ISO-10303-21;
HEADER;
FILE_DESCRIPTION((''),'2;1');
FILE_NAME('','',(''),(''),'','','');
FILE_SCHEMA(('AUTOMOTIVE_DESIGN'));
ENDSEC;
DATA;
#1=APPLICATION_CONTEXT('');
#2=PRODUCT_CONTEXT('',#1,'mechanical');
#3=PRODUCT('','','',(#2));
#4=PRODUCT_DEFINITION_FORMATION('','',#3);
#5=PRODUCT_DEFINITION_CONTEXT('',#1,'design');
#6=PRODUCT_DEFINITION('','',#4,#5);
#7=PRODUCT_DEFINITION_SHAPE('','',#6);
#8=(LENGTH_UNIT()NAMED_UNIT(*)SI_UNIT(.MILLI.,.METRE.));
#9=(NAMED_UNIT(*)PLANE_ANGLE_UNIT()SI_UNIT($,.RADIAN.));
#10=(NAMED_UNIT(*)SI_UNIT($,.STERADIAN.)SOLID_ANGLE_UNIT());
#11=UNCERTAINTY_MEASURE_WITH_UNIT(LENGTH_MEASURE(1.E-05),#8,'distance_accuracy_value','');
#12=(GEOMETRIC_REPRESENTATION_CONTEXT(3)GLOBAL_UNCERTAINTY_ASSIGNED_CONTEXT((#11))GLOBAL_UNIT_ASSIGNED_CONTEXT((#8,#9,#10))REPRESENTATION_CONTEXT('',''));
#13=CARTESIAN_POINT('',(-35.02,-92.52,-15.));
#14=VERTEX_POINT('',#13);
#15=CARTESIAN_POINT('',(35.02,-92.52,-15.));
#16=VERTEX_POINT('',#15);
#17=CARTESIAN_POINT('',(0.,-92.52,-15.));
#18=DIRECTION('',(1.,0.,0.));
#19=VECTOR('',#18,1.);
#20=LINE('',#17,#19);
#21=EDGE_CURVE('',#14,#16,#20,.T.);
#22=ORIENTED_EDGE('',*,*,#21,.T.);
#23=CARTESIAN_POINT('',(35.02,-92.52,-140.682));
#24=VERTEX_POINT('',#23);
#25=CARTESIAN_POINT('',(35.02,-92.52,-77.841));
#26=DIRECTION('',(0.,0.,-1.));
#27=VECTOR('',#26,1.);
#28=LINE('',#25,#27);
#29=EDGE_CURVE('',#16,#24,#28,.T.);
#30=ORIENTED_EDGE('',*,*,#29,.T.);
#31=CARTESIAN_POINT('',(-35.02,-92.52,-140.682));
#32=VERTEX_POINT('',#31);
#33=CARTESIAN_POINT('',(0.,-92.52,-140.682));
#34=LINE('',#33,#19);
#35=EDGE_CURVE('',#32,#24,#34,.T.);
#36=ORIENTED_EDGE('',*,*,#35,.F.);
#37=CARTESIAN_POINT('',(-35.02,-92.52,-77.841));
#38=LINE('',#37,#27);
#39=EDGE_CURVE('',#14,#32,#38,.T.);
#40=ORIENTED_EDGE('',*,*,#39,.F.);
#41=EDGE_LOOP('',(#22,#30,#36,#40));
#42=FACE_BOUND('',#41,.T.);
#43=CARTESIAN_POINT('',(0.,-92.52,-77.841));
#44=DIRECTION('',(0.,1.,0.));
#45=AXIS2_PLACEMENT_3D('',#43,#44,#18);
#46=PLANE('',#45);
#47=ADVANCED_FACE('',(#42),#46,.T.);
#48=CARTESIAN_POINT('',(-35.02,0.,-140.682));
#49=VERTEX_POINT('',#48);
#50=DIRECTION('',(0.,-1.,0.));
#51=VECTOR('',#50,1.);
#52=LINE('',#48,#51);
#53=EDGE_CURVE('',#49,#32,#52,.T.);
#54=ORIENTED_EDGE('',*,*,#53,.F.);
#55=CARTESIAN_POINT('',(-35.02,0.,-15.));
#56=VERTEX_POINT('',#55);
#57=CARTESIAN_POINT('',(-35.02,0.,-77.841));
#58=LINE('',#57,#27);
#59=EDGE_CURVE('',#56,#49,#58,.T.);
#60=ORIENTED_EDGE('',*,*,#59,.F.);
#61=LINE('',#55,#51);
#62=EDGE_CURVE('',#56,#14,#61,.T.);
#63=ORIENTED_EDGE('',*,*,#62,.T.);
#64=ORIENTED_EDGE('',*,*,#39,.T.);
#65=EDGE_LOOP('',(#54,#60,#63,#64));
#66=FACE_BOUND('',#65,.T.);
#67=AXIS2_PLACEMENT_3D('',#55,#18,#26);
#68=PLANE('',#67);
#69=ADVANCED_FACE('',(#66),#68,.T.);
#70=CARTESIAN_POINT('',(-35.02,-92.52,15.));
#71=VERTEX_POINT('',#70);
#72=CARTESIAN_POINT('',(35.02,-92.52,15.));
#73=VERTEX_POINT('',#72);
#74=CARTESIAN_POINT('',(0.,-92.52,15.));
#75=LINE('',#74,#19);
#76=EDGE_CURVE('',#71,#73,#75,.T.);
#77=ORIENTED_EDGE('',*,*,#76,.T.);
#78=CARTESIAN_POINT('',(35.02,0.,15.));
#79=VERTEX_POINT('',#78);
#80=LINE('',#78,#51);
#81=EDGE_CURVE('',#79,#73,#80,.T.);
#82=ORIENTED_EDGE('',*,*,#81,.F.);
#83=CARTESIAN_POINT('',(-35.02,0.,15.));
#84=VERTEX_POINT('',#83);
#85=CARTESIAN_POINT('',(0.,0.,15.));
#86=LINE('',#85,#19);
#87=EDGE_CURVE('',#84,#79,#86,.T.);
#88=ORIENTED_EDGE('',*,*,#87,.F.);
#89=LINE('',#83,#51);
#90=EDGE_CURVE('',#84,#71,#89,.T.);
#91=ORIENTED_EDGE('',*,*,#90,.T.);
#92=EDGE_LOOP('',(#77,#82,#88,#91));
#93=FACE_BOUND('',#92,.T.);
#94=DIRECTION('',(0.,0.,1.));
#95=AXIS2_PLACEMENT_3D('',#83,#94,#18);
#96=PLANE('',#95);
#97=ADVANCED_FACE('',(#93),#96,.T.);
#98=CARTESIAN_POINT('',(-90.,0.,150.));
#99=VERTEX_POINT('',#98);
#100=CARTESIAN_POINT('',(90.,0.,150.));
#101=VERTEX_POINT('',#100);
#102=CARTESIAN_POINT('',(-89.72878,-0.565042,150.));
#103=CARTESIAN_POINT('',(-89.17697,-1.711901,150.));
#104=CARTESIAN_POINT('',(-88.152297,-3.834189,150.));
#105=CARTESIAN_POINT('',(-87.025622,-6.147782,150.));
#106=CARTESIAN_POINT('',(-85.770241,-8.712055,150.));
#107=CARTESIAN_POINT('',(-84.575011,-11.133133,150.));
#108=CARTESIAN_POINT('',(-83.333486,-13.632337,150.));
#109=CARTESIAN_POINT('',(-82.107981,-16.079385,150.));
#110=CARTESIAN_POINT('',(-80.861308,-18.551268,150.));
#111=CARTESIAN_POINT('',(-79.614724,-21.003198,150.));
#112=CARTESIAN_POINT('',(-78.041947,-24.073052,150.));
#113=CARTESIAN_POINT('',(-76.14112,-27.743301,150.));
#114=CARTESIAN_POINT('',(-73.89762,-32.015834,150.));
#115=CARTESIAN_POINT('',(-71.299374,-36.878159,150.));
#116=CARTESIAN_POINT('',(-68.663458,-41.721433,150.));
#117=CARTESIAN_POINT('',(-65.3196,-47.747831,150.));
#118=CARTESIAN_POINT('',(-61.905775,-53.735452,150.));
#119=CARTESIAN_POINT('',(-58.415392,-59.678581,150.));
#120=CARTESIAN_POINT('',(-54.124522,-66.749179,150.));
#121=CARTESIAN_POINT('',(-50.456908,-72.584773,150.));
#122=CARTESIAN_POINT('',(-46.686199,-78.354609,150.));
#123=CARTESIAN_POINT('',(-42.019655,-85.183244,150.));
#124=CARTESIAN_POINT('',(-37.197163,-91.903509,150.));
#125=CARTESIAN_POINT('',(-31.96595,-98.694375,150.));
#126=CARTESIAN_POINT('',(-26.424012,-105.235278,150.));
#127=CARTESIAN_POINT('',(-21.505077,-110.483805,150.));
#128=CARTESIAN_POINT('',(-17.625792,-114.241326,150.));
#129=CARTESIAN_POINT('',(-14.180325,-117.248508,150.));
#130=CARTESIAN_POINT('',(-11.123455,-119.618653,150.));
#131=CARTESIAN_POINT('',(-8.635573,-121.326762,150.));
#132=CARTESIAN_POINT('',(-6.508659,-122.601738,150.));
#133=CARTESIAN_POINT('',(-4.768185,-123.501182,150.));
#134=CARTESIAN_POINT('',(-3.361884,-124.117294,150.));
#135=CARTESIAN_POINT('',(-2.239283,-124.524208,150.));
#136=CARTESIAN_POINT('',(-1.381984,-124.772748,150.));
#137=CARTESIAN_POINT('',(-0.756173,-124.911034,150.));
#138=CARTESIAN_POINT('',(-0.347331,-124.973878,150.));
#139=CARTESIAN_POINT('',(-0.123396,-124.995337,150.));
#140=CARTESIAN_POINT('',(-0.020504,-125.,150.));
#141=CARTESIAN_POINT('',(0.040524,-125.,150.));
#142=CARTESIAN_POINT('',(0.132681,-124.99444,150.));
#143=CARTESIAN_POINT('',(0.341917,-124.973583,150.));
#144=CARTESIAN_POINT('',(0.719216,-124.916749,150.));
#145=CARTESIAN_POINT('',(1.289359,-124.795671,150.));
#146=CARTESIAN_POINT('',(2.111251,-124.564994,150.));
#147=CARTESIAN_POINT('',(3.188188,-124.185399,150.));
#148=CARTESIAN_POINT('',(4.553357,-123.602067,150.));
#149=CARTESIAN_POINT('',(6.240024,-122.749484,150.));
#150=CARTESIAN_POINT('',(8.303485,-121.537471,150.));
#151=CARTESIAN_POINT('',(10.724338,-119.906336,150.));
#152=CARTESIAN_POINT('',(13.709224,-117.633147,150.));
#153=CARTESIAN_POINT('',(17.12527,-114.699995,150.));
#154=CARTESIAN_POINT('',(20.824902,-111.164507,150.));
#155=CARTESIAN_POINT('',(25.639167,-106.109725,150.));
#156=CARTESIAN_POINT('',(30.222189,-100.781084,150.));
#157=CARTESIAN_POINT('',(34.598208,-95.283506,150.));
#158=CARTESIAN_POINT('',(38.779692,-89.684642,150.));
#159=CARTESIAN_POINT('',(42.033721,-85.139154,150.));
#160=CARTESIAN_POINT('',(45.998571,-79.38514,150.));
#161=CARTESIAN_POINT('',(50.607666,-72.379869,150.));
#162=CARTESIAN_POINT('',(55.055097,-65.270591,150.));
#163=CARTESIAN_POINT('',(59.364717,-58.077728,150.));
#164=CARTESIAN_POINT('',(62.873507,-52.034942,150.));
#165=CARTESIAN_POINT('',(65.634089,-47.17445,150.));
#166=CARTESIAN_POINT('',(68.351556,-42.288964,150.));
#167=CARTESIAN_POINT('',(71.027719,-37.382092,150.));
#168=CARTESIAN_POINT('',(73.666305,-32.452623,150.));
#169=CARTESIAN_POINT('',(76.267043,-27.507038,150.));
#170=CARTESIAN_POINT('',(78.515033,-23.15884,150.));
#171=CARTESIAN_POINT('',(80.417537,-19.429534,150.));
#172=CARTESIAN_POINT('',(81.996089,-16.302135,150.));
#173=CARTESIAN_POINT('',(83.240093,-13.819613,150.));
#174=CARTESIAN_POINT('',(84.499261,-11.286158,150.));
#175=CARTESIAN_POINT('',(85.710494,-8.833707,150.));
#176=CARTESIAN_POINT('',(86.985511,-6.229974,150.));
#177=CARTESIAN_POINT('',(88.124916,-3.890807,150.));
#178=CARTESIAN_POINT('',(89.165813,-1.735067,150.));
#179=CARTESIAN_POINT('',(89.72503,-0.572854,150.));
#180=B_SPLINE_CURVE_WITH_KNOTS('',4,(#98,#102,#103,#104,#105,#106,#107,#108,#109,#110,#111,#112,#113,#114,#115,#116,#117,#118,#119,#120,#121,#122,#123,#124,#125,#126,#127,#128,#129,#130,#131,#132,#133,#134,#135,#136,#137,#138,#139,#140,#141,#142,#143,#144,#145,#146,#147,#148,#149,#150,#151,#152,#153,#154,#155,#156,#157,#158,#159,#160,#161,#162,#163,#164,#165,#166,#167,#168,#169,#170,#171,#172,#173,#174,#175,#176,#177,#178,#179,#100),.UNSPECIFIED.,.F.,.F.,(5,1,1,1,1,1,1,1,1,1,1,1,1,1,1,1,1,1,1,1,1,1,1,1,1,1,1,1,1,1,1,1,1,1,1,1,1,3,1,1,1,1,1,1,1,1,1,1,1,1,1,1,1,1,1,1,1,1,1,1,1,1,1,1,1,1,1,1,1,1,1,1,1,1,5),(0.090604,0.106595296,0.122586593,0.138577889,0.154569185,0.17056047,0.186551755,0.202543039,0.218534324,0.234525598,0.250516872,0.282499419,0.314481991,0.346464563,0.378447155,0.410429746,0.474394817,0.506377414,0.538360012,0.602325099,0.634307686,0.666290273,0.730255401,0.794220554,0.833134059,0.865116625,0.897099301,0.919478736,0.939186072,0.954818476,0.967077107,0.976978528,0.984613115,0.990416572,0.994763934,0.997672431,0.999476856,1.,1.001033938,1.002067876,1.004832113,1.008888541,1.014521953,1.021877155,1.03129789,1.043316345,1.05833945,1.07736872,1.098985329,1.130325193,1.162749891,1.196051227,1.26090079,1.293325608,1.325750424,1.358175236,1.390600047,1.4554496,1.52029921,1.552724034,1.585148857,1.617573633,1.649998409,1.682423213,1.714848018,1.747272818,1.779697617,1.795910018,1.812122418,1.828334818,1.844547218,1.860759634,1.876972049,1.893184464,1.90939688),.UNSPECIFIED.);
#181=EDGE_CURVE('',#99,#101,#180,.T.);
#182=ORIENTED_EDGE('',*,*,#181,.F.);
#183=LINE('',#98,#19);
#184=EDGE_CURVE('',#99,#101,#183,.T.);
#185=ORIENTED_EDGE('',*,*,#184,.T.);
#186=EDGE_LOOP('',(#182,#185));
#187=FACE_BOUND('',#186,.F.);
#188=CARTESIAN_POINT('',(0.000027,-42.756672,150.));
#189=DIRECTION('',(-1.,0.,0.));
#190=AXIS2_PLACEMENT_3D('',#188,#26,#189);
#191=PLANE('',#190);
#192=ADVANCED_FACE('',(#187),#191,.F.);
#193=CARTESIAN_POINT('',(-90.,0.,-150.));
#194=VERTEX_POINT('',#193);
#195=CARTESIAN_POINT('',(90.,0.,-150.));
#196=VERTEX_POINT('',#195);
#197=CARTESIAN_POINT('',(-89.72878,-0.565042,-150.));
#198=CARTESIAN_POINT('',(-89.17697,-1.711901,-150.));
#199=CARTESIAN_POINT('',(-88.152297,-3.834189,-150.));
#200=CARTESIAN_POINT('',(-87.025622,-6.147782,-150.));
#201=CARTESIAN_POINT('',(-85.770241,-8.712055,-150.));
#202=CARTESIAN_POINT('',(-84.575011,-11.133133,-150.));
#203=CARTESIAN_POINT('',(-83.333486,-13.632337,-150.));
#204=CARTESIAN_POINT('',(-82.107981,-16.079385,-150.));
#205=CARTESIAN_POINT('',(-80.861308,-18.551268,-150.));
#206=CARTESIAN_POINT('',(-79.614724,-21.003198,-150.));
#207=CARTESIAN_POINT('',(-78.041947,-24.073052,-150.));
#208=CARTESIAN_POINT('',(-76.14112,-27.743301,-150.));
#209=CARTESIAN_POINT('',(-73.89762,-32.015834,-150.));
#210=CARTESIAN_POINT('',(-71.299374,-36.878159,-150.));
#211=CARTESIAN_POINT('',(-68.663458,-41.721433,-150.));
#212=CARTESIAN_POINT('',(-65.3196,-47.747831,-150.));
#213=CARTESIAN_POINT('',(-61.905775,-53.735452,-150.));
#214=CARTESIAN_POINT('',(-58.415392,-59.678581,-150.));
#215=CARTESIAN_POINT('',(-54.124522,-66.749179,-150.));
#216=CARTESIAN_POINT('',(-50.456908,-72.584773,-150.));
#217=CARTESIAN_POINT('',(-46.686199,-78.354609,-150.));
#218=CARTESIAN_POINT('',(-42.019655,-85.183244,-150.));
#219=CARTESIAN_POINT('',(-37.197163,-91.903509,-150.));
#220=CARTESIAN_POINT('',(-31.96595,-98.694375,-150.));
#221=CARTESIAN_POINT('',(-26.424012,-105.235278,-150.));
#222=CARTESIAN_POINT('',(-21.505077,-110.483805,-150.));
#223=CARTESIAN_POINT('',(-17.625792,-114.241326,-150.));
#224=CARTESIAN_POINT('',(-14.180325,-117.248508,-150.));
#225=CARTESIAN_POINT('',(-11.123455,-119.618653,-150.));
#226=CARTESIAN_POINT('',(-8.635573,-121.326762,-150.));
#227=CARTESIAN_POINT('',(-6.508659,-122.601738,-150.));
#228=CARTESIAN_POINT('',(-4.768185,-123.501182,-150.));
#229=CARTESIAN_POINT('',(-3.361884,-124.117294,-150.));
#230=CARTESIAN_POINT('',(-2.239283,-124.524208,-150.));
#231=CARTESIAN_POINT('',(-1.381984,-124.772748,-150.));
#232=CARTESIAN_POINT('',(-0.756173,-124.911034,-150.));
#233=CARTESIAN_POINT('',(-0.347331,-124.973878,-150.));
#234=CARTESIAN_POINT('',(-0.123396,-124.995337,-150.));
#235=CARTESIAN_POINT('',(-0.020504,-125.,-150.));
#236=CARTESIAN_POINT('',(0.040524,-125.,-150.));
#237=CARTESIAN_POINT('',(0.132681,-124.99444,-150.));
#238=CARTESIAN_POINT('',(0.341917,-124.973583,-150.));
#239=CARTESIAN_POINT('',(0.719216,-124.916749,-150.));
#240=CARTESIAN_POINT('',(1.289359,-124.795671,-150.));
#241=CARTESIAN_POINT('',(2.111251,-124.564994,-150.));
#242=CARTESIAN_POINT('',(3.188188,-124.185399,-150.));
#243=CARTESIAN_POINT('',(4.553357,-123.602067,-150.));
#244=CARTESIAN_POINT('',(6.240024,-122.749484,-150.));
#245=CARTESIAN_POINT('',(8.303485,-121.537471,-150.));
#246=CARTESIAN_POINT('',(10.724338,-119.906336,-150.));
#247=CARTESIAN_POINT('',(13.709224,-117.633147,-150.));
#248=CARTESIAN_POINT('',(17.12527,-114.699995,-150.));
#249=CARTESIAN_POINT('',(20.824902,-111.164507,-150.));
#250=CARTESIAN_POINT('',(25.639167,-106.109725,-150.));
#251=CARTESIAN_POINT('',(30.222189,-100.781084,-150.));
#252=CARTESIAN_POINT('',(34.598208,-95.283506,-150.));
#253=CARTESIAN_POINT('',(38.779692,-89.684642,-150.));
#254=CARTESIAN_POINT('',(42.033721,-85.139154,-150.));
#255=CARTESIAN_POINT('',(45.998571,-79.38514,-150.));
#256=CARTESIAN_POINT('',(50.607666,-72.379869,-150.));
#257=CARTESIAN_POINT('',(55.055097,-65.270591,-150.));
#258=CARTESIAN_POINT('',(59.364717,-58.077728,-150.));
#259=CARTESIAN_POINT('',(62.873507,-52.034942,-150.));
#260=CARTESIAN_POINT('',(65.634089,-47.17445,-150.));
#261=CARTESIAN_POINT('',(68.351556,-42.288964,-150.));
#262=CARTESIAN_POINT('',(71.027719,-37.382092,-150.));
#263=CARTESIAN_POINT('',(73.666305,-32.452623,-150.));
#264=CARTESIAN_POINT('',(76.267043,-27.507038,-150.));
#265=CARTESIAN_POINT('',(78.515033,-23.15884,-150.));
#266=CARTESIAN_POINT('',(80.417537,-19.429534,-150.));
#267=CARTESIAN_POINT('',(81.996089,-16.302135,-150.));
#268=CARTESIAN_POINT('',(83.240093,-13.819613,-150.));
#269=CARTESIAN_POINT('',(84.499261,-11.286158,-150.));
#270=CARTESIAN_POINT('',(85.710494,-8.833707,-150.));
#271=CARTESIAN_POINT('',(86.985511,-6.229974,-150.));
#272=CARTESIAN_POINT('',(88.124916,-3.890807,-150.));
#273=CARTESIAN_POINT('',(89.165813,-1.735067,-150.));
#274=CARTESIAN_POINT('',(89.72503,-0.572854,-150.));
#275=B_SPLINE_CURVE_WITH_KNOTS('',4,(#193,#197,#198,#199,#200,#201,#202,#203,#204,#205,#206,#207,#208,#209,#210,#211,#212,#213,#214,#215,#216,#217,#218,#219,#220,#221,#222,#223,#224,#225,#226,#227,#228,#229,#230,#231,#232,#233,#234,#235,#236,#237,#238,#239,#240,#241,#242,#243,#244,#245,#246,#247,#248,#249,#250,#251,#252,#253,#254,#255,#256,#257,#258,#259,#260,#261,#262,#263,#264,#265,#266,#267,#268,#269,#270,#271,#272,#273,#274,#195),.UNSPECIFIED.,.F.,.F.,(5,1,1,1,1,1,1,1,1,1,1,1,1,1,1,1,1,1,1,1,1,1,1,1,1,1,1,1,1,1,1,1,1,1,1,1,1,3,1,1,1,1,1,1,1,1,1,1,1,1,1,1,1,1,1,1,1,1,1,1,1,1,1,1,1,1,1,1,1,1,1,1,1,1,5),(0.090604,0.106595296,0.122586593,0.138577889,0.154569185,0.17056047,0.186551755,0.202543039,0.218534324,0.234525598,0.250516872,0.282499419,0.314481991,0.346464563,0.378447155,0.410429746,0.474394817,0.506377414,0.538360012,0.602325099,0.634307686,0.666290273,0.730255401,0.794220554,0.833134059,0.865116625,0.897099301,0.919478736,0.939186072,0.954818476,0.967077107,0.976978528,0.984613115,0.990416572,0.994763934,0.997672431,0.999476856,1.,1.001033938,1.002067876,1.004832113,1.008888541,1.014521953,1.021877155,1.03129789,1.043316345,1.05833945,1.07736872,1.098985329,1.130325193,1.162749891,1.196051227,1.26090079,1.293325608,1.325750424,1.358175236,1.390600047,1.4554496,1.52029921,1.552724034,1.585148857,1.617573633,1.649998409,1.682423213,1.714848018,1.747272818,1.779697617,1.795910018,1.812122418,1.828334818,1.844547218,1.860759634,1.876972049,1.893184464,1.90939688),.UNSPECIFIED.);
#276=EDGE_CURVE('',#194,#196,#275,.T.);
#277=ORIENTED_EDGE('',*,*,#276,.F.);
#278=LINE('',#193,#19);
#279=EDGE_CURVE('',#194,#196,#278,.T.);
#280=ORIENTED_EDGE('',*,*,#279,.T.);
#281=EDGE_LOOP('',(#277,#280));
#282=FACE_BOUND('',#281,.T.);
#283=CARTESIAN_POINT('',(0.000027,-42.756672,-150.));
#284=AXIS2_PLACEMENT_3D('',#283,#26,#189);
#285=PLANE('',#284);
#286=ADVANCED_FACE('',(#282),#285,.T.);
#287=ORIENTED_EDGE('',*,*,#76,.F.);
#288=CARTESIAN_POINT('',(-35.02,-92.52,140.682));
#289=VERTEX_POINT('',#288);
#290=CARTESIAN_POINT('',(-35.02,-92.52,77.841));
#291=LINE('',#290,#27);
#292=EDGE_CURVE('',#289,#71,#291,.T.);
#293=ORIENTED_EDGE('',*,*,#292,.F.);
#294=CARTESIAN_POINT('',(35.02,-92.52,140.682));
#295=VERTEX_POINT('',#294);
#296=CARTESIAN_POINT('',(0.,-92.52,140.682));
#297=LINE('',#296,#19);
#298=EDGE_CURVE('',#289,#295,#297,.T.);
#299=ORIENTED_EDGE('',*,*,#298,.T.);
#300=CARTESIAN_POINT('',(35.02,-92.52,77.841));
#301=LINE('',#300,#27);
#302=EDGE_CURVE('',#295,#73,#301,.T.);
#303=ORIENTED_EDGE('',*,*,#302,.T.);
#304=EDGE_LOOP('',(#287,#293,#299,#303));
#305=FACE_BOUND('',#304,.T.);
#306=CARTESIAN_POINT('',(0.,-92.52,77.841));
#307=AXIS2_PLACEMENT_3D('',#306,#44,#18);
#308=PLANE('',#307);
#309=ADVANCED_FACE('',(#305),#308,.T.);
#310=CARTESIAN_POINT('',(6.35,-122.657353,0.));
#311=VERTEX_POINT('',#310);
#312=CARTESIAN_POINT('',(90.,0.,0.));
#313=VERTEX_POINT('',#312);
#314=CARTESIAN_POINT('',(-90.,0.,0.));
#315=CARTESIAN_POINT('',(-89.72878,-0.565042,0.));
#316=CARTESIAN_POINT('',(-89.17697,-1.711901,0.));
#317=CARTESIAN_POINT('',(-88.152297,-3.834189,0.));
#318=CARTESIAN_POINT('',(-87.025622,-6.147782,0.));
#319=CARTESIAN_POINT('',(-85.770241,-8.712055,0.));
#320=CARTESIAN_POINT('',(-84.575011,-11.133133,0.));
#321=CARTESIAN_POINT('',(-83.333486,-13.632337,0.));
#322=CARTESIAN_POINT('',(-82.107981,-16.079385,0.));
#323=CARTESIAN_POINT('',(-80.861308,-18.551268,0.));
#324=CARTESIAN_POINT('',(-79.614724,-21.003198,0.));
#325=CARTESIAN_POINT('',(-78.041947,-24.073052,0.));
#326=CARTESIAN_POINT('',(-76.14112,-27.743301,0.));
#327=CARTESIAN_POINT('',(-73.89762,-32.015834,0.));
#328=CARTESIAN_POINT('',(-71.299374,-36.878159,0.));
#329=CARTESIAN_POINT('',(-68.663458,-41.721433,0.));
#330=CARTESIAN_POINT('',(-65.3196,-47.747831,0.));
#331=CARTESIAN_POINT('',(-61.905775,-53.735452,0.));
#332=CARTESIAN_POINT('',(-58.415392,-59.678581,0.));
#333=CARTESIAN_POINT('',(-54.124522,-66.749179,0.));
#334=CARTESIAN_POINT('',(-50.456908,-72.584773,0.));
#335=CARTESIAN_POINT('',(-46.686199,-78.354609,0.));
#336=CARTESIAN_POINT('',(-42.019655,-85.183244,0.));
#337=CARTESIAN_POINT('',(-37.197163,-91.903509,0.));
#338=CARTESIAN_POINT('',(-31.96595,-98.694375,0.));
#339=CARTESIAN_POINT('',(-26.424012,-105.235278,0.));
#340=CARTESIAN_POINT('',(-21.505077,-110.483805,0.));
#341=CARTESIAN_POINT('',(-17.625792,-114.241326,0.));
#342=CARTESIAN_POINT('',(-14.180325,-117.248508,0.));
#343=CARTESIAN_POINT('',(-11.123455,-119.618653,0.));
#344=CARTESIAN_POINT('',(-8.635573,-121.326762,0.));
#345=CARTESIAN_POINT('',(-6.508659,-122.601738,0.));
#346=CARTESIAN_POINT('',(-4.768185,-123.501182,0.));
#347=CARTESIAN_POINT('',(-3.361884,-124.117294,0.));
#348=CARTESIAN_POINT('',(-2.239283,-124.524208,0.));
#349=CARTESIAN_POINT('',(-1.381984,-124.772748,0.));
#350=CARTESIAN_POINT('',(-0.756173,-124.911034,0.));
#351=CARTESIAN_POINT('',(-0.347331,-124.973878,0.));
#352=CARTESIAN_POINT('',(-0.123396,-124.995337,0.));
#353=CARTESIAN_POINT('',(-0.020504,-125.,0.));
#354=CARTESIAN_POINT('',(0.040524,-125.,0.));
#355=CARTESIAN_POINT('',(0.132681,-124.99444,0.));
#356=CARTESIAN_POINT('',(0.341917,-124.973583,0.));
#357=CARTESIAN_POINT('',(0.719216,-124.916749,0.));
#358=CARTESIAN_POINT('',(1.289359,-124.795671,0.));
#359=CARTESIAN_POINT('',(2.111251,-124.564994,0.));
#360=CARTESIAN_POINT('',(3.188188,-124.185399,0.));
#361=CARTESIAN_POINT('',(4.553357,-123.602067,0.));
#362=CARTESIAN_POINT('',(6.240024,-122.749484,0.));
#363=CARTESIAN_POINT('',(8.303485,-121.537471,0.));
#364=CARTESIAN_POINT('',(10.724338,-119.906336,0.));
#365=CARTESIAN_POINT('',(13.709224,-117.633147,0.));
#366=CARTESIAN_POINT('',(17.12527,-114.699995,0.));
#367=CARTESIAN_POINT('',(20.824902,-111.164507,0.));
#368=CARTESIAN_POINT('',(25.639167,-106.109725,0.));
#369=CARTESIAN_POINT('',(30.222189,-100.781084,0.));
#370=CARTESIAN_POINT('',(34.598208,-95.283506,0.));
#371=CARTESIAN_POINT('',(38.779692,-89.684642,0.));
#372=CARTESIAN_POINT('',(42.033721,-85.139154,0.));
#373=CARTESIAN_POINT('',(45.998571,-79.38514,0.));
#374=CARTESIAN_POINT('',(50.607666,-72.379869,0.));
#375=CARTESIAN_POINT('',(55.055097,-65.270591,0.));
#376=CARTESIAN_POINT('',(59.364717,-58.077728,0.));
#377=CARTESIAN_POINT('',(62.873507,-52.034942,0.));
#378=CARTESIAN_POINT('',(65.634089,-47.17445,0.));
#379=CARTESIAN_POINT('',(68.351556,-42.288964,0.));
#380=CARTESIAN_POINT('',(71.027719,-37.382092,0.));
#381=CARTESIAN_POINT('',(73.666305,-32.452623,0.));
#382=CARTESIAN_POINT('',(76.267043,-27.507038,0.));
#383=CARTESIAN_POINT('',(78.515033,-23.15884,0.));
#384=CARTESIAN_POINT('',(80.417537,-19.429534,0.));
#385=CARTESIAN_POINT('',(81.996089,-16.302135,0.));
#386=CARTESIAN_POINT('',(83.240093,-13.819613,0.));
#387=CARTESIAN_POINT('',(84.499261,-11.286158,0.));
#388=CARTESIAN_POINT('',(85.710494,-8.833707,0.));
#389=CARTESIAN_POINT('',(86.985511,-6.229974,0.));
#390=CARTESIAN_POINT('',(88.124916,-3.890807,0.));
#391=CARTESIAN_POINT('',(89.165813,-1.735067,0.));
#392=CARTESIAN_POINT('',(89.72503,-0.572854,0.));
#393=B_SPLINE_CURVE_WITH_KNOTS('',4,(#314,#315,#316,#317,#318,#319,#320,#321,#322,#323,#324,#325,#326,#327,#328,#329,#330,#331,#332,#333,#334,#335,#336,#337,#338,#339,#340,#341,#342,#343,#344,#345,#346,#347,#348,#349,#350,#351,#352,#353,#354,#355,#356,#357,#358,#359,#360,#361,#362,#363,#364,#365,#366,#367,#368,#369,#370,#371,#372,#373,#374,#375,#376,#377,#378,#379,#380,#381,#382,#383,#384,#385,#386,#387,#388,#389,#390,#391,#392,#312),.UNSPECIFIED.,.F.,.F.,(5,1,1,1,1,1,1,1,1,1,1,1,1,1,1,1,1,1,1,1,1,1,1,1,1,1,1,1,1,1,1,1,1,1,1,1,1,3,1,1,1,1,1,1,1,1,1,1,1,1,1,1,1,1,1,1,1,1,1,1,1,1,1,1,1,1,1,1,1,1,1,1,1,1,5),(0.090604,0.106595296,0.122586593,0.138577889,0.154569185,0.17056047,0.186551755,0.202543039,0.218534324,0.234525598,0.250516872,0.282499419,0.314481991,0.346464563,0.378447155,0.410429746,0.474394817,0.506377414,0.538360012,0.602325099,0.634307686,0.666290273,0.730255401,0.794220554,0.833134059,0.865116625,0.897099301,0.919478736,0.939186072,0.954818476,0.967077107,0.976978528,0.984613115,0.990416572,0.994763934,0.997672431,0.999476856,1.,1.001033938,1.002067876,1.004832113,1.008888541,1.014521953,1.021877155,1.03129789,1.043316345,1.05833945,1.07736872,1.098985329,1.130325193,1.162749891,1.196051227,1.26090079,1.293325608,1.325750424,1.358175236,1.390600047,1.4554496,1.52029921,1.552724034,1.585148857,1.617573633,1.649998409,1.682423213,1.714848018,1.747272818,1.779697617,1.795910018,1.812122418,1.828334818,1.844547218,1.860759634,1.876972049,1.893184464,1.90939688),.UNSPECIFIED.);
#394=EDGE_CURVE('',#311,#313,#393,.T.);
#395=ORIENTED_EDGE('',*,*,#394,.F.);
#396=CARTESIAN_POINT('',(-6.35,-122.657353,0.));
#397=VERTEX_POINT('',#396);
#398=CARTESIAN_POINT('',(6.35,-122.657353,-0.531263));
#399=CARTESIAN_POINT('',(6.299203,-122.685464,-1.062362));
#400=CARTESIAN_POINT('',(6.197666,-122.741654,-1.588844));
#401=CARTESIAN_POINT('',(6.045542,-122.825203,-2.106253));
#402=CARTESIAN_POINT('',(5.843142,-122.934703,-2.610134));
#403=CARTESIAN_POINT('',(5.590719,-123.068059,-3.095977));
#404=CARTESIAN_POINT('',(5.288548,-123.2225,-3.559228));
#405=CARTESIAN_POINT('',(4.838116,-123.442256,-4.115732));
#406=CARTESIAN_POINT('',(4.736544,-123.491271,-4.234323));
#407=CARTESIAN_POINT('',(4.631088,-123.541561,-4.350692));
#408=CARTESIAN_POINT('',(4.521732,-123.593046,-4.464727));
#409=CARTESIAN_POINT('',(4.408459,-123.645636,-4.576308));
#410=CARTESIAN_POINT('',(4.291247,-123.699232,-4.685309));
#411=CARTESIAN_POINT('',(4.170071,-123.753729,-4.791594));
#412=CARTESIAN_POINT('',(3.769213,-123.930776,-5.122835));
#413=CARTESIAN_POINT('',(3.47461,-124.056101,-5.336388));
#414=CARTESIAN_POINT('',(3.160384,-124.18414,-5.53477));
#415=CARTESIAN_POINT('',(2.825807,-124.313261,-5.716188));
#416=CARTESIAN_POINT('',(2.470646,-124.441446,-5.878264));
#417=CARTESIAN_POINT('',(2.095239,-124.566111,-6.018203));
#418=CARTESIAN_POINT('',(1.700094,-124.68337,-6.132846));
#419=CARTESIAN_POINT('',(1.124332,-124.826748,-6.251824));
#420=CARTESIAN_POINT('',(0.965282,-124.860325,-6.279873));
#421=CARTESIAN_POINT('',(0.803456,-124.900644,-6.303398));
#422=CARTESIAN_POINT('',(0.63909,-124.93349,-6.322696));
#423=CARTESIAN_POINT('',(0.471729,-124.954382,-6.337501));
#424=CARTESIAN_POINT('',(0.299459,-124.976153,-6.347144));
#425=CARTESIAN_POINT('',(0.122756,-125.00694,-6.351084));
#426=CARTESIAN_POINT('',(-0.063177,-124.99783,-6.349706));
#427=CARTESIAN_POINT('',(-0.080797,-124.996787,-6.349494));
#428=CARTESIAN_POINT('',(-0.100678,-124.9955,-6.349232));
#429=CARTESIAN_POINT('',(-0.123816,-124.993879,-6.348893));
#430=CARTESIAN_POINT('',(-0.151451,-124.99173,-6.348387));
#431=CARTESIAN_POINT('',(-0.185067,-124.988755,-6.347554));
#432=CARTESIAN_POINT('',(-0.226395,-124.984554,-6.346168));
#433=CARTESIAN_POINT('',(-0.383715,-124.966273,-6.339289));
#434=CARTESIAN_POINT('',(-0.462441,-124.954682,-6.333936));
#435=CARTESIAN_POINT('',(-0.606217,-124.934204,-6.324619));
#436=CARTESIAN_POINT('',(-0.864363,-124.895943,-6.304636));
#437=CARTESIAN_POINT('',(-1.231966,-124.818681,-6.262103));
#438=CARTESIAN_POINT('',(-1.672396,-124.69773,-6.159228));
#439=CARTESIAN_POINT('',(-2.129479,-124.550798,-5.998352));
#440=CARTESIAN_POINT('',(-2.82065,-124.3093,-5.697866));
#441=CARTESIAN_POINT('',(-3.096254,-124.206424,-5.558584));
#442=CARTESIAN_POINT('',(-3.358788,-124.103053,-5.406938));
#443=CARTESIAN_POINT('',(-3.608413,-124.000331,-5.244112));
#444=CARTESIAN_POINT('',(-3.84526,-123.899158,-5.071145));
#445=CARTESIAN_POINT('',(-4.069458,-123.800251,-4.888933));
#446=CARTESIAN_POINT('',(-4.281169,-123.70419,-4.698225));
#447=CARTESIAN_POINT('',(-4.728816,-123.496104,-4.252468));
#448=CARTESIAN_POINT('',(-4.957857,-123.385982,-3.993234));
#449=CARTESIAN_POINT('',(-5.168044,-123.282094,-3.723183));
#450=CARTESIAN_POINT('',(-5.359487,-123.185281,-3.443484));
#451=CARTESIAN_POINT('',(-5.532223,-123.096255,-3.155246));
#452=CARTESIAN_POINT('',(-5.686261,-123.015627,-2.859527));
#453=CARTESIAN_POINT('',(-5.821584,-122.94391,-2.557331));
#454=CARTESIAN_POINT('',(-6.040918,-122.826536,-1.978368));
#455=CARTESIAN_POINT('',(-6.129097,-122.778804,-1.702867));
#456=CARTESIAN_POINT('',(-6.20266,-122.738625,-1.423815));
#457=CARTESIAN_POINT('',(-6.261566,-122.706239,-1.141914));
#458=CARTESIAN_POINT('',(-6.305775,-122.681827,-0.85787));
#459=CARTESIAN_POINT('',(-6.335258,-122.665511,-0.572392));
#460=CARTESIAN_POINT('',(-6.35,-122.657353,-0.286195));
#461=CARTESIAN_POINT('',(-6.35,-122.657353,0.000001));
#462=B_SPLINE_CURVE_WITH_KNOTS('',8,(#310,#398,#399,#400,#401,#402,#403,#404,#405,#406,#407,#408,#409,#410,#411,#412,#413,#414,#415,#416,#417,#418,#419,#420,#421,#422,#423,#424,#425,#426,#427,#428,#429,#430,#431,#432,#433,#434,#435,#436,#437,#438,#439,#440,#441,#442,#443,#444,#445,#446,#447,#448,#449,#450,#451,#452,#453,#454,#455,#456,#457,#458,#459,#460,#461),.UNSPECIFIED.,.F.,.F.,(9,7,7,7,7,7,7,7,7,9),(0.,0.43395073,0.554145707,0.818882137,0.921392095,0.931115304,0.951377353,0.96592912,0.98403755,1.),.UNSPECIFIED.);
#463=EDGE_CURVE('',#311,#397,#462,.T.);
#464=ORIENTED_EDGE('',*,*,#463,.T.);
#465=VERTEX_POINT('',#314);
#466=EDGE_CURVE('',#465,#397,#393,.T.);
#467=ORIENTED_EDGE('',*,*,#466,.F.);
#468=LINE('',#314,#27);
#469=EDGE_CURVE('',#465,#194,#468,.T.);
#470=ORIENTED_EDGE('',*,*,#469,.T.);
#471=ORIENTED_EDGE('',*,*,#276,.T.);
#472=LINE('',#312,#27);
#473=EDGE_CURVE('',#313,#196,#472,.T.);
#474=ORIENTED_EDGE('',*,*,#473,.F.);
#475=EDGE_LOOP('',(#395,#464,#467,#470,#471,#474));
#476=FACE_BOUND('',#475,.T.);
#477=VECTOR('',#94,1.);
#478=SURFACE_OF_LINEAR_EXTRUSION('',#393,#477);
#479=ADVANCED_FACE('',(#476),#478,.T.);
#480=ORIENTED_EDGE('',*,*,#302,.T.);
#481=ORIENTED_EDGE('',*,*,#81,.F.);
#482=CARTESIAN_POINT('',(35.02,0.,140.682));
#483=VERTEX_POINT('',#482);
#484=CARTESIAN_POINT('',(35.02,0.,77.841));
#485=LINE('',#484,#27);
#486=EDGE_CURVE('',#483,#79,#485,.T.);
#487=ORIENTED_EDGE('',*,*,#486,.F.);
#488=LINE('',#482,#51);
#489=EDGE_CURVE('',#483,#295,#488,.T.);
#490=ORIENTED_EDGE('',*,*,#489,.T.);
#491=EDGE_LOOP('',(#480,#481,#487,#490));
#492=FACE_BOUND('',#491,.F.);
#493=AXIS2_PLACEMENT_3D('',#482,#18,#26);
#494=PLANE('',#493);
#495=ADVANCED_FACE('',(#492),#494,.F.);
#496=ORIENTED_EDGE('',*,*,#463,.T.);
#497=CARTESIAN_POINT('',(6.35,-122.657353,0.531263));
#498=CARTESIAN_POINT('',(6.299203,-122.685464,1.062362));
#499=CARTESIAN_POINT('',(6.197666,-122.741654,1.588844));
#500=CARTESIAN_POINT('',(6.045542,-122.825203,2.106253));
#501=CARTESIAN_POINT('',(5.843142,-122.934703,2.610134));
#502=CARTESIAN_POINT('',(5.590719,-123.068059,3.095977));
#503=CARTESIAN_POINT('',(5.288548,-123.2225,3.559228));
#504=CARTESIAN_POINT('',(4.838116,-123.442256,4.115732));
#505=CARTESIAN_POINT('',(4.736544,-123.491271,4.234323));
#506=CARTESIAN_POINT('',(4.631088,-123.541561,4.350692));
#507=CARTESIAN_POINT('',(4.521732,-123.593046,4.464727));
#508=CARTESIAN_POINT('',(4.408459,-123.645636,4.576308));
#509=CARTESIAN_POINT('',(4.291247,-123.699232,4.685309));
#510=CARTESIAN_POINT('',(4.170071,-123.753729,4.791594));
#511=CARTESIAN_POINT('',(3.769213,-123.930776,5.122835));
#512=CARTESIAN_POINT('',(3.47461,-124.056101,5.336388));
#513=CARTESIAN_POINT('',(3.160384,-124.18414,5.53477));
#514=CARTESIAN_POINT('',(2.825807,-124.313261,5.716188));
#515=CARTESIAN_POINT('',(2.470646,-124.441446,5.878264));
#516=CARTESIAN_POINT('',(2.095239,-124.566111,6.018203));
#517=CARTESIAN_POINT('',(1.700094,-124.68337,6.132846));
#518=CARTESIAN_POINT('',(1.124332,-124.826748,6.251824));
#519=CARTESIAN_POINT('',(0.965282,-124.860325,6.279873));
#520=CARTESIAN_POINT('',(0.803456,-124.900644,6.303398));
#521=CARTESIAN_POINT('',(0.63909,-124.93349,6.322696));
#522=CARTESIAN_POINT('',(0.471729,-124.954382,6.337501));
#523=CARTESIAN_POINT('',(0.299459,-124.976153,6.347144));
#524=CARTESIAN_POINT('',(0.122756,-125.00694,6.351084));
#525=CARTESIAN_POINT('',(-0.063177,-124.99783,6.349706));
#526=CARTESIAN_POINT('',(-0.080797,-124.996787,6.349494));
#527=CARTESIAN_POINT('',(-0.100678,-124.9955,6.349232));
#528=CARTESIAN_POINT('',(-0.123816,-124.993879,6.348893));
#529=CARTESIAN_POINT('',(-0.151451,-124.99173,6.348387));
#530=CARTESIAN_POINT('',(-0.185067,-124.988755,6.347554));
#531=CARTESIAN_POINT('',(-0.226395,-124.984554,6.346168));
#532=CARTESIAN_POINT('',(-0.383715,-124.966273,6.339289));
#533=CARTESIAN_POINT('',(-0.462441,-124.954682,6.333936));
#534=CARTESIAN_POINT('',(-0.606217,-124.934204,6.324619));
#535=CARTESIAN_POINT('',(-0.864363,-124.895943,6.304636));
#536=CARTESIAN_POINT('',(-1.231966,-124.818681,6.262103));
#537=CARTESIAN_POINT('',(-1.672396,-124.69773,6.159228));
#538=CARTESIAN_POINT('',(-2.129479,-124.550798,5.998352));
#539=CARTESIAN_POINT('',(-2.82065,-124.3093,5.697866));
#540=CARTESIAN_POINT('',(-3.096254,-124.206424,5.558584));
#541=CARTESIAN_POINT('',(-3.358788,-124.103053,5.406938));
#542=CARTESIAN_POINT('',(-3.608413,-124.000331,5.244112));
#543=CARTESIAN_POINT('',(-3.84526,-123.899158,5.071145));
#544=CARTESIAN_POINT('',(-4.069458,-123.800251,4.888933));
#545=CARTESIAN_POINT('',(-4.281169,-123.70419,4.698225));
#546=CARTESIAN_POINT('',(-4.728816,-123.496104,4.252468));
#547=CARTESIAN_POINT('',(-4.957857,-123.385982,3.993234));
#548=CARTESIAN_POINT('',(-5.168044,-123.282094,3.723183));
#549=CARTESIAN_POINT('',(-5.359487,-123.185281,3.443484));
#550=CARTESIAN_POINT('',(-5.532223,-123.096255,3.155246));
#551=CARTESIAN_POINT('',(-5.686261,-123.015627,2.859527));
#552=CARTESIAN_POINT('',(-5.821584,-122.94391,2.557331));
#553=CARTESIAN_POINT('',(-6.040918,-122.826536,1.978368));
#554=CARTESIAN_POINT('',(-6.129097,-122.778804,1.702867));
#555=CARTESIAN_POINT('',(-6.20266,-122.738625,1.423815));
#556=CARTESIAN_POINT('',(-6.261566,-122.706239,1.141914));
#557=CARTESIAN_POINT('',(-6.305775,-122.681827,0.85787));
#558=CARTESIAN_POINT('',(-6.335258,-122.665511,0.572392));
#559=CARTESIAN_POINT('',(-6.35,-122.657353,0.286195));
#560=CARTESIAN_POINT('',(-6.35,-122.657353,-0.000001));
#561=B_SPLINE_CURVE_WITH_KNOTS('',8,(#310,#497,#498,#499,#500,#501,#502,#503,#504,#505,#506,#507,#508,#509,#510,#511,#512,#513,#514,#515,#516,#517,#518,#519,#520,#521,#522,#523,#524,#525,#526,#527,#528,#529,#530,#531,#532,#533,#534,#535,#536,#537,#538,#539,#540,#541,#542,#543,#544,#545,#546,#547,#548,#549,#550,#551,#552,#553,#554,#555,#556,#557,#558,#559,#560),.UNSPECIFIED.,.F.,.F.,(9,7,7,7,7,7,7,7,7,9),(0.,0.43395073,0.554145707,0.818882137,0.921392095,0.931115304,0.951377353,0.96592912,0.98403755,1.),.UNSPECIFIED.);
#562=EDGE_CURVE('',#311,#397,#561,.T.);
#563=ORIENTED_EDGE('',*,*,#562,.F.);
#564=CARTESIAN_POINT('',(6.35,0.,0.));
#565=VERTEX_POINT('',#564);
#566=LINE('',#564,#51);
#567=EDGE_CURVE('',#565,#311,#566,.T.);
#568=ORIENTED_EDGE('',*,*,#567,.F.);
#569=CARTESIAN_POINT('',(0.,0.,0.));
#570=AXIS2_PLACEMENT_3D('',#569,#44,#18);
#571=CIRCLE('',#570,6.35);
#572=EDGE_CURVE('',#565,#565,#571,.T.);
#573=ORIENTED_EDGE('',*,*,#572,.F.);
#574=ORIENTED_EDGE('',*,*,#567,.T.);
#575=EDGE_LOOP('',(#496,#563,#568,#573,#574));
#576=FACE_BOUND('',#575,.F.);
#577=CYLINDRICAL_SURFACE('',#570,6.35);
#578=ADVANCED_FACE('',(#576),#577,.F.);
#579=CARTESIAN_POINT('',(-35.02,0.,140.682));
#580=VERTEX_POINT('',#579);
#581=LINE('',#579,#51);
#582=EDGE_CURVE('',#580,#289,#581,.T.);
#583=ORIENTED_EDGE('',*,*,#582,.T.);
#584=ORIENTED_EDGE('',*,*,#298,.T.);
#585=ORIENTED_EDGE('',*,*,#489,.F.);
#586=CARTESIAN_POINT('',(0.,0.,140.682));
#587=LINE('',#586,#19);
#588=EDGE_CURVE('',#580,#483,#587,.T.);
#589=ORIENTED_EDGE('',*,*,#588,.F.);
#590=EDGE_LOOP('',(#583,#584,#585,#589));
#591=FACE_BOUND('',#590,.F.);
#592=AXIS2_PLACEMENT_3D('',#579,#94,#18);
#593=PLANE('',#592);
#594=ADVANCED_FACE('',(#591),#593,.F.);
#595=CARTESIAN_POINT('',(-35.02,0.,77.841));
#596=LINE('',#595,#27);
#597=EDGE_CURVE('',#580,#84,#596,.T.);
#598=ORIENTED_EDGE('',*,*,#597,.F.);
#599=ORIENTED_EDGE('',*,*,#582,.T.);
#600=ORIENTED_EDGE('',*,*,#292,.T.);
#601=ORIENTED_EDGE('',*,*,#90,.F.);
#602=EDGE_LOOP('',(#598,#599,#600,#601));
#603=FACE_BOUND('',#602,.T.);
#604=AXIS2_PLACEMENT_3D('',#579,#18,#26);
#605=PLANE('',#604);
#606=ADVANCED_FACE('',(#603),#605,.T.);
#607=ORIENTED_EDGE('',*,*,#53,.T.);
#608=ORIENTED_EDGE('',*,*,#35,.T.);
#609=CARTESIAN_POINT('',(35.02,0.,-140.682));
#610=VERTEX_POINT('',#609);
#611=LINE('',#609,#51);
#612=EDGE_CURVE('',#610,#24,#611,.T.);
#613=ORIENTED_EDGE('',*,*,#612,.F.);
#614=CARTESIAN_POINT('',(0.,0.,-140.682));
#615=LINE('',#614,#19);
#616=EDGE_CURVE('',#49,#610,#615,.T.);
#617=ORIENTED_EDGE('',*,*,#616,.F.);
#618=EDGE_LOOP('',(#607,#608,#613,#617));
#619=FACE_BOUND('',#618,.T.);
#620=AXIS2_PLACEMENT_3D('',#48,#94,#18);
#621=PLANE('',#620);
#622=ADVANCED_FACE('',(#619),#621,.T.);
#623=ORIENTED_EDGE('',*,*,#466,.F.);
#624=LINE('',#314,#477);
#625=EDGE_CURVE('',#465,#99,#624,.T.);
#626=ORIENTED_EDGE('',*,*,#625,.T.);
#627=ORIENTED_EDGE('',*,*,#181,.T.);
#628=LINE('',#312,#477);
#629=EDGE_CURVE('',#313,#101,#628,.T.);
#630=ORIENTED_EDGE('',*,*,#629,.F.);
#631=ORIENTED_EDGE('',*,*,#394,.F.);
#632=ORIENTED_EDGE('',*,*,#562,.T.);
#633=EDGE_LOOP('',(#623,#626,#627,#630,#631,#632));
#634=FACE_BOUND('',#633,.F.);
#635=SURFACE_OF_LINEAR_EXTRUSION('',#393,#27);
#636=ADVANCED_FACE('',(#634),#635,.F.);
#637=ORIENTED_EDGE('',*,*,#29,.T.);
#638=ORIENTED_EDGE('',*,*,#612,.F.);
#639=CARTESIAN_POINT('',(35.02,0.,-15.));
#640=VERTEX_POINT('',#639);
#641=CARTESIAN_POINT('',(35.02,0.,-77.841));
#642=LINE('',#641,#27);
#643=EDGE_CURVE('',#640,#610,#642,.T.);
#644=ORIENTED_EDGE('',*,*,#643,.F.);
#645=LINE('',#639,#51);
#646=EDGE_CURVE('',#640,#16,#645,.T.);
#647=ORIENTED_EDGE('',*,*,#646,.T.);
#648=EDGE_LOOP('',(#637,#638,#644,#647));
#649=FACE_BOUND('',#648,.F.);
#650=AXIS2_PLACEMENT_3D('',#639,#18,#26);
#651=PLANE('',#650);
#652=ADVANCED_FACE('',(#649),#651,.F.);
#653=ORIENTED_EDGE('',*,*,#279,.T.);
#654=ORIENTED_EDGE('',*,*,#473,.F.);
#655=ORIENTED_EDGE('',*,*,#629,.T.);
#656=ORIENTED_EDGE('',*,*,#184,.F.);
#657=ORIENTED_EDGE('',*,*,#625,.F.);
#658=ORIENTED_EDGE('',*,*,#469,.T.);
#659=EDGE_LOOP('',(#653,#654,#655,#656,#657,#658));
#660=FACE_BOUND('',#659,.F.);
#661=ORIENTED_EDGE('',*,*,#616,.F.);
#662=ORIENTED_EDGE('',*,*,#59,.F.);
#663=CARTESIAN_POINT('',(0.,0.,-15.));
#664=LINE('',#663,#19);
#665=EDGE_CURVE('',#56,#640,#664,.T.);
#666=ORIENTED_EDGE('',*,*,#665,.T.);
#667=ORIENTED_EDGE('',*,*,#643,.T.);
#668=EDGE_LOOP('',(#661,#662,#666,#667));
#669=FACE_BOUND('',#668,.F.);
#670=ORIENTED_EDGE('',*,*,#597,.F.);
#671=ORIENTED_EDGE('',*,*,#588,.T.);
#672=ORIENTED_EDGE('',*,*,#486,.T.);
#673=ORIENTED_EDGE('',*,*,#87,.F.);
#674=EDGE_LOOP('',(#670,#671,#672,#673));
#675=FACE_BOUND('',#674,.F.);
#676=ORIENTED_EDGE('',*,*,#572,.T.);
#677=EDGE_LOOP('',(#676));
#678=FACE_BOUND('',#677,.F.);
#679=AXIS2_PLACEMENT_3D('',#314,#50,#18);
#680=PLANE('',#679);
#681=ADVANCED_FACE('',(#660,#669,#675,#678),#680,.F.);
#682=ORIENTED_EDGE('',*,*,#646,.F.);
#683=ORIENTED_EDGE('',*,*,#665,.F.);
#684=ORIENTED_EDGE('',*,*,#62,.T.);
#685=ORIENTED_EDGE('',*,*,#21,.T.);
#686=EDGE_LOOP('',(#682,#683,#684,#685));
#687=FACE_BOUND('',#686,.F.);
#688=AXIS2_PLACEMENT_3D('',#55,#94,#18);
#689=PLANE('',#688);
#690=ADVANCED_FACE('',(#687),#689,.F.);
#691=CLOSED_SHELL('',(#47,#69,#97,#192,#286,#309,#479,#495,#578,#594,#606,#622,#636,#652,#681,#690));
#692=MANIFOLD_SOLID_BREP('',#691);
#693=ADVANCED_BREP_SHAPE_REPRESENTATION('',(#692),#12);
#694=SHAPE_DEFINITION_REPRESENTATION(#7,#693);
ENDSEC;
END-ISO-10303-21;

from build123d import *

# Parameters (mm, degrees)
BOSS_EXTRUDE1_DEPTH = 150
SKETCH2_W           = 70.04
SKETCH2_H           = 125.682
CUT_EXTRUDE1_DEPTH  = 92.52
SKETCH4_R           = 6.35
CUT_EXTRUDE2_DEPTH  = 126.0000001


with BuildPart() as part:
    # Sketch1 → Boss-Extrude1 (new body, symmetric)
    with BuildSketch(Plane.XY):
        with BuildLine():
            Line((-90, 0), (90, 0))
            add(Edge.make_bspline(
                [(0, -125), (0.040524176, -125), (0.132680738, -124.994439857), (0.341916524, -124.973583458), (0.719215848, -124.916748559), (1.289359309, -124.795671245), (2.111250987, -124.564993976), (3.188188494, -124.185399035), (4.55335692, -123.602067095), (6.240024265, -122.749483932), (8.303485367, -121.537471112), (10.724338253, -119.906336414), (13.709224486, -117.633146505), (17.125270454, -114.69999474), (20.824901988, -111.164506709), (25.639167248, -106.109725012), (30.222189081, -100.781084362), (34.598208113, -95.283505936), (38.779692195, -89.68464193), (42.033720965, -85.139153723), (45.998570642, -79.385140077), (50.607665842, -72.379869472), (55.055097052, -65.270591126), (59.364717318, -58.077727616), (62.873506602, -52.034941709), (65.634088968, -47.174450031), (68.351556299, -42.288964471), (71.027719256, -37.382091987), (73.66630476, -32.452622561), (76.267043416, -27.507038124), (78.515032858, -23.158839582), (80.417537293, -19.429534292), (81.996088861, -16.30213476), (83.240093312, -13.819613379), (84.499261394, -11.286158088), (85.71049431, -8.833707245), (86.985510696, -6.229974473), (88.124916321, -3.890806906), (89.16581329, -1.735067221), (89.725029899, -0.572854377), (90, 0)],
                knots=[0, 0, 0, 0, 0, 0.001033937, 0.002067874, 0.004832108, 0.008888532, 0.014521939, 0.021877134, 0.03129786, 0.043316303, 0.058339394, 0.077368645, 0.098985233, 0.130325067, 0.162749734, 0.196051037, 0.260900538, 0.293325324, 0.325750109, 0.358174889, 0.390599669, 0.455449159, 0.520298707, 0.552723499, 0.585148291, 0.617573035, 0.64999778, 0.682422553, 0.714847326, 0.747272095, 0.779696863, 0.795909248, 0.812121632, 0.828334016, 0.844546401, 0.860758801, 0.8769712, 0.8931836, 0.909396, 0.909396, 0.909396, 0.909396, 0.909396], degree=4))
            add(Edge.make_bspline(
                [(-90, 0), (-89.728779922, -0.56504183), (-89.1769697, -1.71190114), (-88.152296829, -3.83418854), (-87.025621632, -6.14778151), (-85.77024086, -8.712054514), (-84.575010931, -11.133133097), (-83.333486196, -13.632337314), (-82.107980727, -16.079385385), (-80.861307848, -18.551268163), (-79.614724115, -21.003198373), (-78.041946947, -24.073051937), (-76.14112023, -27.74330145), (-73.897620216, -32.01583355), (-71.29937439, -36.878159088), (-68.66345797, -41.721432974), (-65.319600127, -47.747831092), (-61.905775094, -53.735451599), (-58.415392446, -59.678580549), (-54.124522247, -66.749179037), (-50.456908111, -72.584773085), (-46.686198982, -78.354608666), (-42.019654617, -85.183243955), (-37.197162592, -91.90350945), (-31.965949682, -98.694375088), (-26.424011931, -105.23527848), (-21.505077303, -110.483804706), (-17.625792471, -114.241326427), (-14.180324535, -117.24850825), (-11.12345498, -119.618653213), (-8.635573143, -121.326761696), (-6.508658653, -122.601737804), (-4.768184737, -123.501182231), (-3.361883797, -124.117294089), (-2.239283334, -124.524207657), (-1.381983723, -124.772747972), (-0.756173, -124.911034051), (-0.347330621, -124.973877644), (-0.123395647, -124.995337069), (-0.020504111, -125), (0, -125)],
                knots=[0.090604, 0.090604, 0.090604, 0.090604, 0.090604, 0.106595296, 0.122586593, 0.138577889, 0.154569185, 0.17056047, 0.186551755, 0.202543039, 0.218534324, 0.234525598, 0.250516872, 0.282499419, 0.314481991, 0.346464563, 0.378447155, 0.410429746, 0.474394817, 0.506377414, 0.538360012, 0.602325099, 0.634307686, 0.666290273, 0.730255401, 0.794220554, 0.833134059, 0.865116625, 0.897099301, 0.919478736, 0.939186072, 0.954818476, 0.967077107, 0.976978528, 0.984613115, 0.990416572, 0.994763934, 0.997672431, 0.999476856, 1, 1, 1, 1, 1], degree=4))
        make_face()
    extrude(amount=BOSS_EXTRUDE1_DEPTH, both=True)

    # Sketch2 → Cut-Extrude1 (cut)
    with BuildSketch(Plane(origin=(0, 0, 0), x_dir=(1, 0, 0), z_dir=(0, 1, 0))):
        with Locations((0, 77.841)):
            Rectangle(SKETCH2_W, SKETCH2_H)
        with Locations((0, -77.841)):
            Rectangle(SKETCH2_W, SKETCH2_H)
    extrude(amount=-CUT_EXTRUDE1_DEPTH, mode=Mode.SUBTRACT)

    # Sketch4 → Cut-Extrude2 (cut, through all)
    with BuildSketch(Plane(origin=(0, 0, 0), x_dir=(1, 0, 0), z_dir=(0, 1, 0))):
        Circle(SKETCH4_R)
    extrude(amount=-CUT_EXTRUDE2_DEPTH, mode=Mode.SUBTRACT)


solid = part.part
